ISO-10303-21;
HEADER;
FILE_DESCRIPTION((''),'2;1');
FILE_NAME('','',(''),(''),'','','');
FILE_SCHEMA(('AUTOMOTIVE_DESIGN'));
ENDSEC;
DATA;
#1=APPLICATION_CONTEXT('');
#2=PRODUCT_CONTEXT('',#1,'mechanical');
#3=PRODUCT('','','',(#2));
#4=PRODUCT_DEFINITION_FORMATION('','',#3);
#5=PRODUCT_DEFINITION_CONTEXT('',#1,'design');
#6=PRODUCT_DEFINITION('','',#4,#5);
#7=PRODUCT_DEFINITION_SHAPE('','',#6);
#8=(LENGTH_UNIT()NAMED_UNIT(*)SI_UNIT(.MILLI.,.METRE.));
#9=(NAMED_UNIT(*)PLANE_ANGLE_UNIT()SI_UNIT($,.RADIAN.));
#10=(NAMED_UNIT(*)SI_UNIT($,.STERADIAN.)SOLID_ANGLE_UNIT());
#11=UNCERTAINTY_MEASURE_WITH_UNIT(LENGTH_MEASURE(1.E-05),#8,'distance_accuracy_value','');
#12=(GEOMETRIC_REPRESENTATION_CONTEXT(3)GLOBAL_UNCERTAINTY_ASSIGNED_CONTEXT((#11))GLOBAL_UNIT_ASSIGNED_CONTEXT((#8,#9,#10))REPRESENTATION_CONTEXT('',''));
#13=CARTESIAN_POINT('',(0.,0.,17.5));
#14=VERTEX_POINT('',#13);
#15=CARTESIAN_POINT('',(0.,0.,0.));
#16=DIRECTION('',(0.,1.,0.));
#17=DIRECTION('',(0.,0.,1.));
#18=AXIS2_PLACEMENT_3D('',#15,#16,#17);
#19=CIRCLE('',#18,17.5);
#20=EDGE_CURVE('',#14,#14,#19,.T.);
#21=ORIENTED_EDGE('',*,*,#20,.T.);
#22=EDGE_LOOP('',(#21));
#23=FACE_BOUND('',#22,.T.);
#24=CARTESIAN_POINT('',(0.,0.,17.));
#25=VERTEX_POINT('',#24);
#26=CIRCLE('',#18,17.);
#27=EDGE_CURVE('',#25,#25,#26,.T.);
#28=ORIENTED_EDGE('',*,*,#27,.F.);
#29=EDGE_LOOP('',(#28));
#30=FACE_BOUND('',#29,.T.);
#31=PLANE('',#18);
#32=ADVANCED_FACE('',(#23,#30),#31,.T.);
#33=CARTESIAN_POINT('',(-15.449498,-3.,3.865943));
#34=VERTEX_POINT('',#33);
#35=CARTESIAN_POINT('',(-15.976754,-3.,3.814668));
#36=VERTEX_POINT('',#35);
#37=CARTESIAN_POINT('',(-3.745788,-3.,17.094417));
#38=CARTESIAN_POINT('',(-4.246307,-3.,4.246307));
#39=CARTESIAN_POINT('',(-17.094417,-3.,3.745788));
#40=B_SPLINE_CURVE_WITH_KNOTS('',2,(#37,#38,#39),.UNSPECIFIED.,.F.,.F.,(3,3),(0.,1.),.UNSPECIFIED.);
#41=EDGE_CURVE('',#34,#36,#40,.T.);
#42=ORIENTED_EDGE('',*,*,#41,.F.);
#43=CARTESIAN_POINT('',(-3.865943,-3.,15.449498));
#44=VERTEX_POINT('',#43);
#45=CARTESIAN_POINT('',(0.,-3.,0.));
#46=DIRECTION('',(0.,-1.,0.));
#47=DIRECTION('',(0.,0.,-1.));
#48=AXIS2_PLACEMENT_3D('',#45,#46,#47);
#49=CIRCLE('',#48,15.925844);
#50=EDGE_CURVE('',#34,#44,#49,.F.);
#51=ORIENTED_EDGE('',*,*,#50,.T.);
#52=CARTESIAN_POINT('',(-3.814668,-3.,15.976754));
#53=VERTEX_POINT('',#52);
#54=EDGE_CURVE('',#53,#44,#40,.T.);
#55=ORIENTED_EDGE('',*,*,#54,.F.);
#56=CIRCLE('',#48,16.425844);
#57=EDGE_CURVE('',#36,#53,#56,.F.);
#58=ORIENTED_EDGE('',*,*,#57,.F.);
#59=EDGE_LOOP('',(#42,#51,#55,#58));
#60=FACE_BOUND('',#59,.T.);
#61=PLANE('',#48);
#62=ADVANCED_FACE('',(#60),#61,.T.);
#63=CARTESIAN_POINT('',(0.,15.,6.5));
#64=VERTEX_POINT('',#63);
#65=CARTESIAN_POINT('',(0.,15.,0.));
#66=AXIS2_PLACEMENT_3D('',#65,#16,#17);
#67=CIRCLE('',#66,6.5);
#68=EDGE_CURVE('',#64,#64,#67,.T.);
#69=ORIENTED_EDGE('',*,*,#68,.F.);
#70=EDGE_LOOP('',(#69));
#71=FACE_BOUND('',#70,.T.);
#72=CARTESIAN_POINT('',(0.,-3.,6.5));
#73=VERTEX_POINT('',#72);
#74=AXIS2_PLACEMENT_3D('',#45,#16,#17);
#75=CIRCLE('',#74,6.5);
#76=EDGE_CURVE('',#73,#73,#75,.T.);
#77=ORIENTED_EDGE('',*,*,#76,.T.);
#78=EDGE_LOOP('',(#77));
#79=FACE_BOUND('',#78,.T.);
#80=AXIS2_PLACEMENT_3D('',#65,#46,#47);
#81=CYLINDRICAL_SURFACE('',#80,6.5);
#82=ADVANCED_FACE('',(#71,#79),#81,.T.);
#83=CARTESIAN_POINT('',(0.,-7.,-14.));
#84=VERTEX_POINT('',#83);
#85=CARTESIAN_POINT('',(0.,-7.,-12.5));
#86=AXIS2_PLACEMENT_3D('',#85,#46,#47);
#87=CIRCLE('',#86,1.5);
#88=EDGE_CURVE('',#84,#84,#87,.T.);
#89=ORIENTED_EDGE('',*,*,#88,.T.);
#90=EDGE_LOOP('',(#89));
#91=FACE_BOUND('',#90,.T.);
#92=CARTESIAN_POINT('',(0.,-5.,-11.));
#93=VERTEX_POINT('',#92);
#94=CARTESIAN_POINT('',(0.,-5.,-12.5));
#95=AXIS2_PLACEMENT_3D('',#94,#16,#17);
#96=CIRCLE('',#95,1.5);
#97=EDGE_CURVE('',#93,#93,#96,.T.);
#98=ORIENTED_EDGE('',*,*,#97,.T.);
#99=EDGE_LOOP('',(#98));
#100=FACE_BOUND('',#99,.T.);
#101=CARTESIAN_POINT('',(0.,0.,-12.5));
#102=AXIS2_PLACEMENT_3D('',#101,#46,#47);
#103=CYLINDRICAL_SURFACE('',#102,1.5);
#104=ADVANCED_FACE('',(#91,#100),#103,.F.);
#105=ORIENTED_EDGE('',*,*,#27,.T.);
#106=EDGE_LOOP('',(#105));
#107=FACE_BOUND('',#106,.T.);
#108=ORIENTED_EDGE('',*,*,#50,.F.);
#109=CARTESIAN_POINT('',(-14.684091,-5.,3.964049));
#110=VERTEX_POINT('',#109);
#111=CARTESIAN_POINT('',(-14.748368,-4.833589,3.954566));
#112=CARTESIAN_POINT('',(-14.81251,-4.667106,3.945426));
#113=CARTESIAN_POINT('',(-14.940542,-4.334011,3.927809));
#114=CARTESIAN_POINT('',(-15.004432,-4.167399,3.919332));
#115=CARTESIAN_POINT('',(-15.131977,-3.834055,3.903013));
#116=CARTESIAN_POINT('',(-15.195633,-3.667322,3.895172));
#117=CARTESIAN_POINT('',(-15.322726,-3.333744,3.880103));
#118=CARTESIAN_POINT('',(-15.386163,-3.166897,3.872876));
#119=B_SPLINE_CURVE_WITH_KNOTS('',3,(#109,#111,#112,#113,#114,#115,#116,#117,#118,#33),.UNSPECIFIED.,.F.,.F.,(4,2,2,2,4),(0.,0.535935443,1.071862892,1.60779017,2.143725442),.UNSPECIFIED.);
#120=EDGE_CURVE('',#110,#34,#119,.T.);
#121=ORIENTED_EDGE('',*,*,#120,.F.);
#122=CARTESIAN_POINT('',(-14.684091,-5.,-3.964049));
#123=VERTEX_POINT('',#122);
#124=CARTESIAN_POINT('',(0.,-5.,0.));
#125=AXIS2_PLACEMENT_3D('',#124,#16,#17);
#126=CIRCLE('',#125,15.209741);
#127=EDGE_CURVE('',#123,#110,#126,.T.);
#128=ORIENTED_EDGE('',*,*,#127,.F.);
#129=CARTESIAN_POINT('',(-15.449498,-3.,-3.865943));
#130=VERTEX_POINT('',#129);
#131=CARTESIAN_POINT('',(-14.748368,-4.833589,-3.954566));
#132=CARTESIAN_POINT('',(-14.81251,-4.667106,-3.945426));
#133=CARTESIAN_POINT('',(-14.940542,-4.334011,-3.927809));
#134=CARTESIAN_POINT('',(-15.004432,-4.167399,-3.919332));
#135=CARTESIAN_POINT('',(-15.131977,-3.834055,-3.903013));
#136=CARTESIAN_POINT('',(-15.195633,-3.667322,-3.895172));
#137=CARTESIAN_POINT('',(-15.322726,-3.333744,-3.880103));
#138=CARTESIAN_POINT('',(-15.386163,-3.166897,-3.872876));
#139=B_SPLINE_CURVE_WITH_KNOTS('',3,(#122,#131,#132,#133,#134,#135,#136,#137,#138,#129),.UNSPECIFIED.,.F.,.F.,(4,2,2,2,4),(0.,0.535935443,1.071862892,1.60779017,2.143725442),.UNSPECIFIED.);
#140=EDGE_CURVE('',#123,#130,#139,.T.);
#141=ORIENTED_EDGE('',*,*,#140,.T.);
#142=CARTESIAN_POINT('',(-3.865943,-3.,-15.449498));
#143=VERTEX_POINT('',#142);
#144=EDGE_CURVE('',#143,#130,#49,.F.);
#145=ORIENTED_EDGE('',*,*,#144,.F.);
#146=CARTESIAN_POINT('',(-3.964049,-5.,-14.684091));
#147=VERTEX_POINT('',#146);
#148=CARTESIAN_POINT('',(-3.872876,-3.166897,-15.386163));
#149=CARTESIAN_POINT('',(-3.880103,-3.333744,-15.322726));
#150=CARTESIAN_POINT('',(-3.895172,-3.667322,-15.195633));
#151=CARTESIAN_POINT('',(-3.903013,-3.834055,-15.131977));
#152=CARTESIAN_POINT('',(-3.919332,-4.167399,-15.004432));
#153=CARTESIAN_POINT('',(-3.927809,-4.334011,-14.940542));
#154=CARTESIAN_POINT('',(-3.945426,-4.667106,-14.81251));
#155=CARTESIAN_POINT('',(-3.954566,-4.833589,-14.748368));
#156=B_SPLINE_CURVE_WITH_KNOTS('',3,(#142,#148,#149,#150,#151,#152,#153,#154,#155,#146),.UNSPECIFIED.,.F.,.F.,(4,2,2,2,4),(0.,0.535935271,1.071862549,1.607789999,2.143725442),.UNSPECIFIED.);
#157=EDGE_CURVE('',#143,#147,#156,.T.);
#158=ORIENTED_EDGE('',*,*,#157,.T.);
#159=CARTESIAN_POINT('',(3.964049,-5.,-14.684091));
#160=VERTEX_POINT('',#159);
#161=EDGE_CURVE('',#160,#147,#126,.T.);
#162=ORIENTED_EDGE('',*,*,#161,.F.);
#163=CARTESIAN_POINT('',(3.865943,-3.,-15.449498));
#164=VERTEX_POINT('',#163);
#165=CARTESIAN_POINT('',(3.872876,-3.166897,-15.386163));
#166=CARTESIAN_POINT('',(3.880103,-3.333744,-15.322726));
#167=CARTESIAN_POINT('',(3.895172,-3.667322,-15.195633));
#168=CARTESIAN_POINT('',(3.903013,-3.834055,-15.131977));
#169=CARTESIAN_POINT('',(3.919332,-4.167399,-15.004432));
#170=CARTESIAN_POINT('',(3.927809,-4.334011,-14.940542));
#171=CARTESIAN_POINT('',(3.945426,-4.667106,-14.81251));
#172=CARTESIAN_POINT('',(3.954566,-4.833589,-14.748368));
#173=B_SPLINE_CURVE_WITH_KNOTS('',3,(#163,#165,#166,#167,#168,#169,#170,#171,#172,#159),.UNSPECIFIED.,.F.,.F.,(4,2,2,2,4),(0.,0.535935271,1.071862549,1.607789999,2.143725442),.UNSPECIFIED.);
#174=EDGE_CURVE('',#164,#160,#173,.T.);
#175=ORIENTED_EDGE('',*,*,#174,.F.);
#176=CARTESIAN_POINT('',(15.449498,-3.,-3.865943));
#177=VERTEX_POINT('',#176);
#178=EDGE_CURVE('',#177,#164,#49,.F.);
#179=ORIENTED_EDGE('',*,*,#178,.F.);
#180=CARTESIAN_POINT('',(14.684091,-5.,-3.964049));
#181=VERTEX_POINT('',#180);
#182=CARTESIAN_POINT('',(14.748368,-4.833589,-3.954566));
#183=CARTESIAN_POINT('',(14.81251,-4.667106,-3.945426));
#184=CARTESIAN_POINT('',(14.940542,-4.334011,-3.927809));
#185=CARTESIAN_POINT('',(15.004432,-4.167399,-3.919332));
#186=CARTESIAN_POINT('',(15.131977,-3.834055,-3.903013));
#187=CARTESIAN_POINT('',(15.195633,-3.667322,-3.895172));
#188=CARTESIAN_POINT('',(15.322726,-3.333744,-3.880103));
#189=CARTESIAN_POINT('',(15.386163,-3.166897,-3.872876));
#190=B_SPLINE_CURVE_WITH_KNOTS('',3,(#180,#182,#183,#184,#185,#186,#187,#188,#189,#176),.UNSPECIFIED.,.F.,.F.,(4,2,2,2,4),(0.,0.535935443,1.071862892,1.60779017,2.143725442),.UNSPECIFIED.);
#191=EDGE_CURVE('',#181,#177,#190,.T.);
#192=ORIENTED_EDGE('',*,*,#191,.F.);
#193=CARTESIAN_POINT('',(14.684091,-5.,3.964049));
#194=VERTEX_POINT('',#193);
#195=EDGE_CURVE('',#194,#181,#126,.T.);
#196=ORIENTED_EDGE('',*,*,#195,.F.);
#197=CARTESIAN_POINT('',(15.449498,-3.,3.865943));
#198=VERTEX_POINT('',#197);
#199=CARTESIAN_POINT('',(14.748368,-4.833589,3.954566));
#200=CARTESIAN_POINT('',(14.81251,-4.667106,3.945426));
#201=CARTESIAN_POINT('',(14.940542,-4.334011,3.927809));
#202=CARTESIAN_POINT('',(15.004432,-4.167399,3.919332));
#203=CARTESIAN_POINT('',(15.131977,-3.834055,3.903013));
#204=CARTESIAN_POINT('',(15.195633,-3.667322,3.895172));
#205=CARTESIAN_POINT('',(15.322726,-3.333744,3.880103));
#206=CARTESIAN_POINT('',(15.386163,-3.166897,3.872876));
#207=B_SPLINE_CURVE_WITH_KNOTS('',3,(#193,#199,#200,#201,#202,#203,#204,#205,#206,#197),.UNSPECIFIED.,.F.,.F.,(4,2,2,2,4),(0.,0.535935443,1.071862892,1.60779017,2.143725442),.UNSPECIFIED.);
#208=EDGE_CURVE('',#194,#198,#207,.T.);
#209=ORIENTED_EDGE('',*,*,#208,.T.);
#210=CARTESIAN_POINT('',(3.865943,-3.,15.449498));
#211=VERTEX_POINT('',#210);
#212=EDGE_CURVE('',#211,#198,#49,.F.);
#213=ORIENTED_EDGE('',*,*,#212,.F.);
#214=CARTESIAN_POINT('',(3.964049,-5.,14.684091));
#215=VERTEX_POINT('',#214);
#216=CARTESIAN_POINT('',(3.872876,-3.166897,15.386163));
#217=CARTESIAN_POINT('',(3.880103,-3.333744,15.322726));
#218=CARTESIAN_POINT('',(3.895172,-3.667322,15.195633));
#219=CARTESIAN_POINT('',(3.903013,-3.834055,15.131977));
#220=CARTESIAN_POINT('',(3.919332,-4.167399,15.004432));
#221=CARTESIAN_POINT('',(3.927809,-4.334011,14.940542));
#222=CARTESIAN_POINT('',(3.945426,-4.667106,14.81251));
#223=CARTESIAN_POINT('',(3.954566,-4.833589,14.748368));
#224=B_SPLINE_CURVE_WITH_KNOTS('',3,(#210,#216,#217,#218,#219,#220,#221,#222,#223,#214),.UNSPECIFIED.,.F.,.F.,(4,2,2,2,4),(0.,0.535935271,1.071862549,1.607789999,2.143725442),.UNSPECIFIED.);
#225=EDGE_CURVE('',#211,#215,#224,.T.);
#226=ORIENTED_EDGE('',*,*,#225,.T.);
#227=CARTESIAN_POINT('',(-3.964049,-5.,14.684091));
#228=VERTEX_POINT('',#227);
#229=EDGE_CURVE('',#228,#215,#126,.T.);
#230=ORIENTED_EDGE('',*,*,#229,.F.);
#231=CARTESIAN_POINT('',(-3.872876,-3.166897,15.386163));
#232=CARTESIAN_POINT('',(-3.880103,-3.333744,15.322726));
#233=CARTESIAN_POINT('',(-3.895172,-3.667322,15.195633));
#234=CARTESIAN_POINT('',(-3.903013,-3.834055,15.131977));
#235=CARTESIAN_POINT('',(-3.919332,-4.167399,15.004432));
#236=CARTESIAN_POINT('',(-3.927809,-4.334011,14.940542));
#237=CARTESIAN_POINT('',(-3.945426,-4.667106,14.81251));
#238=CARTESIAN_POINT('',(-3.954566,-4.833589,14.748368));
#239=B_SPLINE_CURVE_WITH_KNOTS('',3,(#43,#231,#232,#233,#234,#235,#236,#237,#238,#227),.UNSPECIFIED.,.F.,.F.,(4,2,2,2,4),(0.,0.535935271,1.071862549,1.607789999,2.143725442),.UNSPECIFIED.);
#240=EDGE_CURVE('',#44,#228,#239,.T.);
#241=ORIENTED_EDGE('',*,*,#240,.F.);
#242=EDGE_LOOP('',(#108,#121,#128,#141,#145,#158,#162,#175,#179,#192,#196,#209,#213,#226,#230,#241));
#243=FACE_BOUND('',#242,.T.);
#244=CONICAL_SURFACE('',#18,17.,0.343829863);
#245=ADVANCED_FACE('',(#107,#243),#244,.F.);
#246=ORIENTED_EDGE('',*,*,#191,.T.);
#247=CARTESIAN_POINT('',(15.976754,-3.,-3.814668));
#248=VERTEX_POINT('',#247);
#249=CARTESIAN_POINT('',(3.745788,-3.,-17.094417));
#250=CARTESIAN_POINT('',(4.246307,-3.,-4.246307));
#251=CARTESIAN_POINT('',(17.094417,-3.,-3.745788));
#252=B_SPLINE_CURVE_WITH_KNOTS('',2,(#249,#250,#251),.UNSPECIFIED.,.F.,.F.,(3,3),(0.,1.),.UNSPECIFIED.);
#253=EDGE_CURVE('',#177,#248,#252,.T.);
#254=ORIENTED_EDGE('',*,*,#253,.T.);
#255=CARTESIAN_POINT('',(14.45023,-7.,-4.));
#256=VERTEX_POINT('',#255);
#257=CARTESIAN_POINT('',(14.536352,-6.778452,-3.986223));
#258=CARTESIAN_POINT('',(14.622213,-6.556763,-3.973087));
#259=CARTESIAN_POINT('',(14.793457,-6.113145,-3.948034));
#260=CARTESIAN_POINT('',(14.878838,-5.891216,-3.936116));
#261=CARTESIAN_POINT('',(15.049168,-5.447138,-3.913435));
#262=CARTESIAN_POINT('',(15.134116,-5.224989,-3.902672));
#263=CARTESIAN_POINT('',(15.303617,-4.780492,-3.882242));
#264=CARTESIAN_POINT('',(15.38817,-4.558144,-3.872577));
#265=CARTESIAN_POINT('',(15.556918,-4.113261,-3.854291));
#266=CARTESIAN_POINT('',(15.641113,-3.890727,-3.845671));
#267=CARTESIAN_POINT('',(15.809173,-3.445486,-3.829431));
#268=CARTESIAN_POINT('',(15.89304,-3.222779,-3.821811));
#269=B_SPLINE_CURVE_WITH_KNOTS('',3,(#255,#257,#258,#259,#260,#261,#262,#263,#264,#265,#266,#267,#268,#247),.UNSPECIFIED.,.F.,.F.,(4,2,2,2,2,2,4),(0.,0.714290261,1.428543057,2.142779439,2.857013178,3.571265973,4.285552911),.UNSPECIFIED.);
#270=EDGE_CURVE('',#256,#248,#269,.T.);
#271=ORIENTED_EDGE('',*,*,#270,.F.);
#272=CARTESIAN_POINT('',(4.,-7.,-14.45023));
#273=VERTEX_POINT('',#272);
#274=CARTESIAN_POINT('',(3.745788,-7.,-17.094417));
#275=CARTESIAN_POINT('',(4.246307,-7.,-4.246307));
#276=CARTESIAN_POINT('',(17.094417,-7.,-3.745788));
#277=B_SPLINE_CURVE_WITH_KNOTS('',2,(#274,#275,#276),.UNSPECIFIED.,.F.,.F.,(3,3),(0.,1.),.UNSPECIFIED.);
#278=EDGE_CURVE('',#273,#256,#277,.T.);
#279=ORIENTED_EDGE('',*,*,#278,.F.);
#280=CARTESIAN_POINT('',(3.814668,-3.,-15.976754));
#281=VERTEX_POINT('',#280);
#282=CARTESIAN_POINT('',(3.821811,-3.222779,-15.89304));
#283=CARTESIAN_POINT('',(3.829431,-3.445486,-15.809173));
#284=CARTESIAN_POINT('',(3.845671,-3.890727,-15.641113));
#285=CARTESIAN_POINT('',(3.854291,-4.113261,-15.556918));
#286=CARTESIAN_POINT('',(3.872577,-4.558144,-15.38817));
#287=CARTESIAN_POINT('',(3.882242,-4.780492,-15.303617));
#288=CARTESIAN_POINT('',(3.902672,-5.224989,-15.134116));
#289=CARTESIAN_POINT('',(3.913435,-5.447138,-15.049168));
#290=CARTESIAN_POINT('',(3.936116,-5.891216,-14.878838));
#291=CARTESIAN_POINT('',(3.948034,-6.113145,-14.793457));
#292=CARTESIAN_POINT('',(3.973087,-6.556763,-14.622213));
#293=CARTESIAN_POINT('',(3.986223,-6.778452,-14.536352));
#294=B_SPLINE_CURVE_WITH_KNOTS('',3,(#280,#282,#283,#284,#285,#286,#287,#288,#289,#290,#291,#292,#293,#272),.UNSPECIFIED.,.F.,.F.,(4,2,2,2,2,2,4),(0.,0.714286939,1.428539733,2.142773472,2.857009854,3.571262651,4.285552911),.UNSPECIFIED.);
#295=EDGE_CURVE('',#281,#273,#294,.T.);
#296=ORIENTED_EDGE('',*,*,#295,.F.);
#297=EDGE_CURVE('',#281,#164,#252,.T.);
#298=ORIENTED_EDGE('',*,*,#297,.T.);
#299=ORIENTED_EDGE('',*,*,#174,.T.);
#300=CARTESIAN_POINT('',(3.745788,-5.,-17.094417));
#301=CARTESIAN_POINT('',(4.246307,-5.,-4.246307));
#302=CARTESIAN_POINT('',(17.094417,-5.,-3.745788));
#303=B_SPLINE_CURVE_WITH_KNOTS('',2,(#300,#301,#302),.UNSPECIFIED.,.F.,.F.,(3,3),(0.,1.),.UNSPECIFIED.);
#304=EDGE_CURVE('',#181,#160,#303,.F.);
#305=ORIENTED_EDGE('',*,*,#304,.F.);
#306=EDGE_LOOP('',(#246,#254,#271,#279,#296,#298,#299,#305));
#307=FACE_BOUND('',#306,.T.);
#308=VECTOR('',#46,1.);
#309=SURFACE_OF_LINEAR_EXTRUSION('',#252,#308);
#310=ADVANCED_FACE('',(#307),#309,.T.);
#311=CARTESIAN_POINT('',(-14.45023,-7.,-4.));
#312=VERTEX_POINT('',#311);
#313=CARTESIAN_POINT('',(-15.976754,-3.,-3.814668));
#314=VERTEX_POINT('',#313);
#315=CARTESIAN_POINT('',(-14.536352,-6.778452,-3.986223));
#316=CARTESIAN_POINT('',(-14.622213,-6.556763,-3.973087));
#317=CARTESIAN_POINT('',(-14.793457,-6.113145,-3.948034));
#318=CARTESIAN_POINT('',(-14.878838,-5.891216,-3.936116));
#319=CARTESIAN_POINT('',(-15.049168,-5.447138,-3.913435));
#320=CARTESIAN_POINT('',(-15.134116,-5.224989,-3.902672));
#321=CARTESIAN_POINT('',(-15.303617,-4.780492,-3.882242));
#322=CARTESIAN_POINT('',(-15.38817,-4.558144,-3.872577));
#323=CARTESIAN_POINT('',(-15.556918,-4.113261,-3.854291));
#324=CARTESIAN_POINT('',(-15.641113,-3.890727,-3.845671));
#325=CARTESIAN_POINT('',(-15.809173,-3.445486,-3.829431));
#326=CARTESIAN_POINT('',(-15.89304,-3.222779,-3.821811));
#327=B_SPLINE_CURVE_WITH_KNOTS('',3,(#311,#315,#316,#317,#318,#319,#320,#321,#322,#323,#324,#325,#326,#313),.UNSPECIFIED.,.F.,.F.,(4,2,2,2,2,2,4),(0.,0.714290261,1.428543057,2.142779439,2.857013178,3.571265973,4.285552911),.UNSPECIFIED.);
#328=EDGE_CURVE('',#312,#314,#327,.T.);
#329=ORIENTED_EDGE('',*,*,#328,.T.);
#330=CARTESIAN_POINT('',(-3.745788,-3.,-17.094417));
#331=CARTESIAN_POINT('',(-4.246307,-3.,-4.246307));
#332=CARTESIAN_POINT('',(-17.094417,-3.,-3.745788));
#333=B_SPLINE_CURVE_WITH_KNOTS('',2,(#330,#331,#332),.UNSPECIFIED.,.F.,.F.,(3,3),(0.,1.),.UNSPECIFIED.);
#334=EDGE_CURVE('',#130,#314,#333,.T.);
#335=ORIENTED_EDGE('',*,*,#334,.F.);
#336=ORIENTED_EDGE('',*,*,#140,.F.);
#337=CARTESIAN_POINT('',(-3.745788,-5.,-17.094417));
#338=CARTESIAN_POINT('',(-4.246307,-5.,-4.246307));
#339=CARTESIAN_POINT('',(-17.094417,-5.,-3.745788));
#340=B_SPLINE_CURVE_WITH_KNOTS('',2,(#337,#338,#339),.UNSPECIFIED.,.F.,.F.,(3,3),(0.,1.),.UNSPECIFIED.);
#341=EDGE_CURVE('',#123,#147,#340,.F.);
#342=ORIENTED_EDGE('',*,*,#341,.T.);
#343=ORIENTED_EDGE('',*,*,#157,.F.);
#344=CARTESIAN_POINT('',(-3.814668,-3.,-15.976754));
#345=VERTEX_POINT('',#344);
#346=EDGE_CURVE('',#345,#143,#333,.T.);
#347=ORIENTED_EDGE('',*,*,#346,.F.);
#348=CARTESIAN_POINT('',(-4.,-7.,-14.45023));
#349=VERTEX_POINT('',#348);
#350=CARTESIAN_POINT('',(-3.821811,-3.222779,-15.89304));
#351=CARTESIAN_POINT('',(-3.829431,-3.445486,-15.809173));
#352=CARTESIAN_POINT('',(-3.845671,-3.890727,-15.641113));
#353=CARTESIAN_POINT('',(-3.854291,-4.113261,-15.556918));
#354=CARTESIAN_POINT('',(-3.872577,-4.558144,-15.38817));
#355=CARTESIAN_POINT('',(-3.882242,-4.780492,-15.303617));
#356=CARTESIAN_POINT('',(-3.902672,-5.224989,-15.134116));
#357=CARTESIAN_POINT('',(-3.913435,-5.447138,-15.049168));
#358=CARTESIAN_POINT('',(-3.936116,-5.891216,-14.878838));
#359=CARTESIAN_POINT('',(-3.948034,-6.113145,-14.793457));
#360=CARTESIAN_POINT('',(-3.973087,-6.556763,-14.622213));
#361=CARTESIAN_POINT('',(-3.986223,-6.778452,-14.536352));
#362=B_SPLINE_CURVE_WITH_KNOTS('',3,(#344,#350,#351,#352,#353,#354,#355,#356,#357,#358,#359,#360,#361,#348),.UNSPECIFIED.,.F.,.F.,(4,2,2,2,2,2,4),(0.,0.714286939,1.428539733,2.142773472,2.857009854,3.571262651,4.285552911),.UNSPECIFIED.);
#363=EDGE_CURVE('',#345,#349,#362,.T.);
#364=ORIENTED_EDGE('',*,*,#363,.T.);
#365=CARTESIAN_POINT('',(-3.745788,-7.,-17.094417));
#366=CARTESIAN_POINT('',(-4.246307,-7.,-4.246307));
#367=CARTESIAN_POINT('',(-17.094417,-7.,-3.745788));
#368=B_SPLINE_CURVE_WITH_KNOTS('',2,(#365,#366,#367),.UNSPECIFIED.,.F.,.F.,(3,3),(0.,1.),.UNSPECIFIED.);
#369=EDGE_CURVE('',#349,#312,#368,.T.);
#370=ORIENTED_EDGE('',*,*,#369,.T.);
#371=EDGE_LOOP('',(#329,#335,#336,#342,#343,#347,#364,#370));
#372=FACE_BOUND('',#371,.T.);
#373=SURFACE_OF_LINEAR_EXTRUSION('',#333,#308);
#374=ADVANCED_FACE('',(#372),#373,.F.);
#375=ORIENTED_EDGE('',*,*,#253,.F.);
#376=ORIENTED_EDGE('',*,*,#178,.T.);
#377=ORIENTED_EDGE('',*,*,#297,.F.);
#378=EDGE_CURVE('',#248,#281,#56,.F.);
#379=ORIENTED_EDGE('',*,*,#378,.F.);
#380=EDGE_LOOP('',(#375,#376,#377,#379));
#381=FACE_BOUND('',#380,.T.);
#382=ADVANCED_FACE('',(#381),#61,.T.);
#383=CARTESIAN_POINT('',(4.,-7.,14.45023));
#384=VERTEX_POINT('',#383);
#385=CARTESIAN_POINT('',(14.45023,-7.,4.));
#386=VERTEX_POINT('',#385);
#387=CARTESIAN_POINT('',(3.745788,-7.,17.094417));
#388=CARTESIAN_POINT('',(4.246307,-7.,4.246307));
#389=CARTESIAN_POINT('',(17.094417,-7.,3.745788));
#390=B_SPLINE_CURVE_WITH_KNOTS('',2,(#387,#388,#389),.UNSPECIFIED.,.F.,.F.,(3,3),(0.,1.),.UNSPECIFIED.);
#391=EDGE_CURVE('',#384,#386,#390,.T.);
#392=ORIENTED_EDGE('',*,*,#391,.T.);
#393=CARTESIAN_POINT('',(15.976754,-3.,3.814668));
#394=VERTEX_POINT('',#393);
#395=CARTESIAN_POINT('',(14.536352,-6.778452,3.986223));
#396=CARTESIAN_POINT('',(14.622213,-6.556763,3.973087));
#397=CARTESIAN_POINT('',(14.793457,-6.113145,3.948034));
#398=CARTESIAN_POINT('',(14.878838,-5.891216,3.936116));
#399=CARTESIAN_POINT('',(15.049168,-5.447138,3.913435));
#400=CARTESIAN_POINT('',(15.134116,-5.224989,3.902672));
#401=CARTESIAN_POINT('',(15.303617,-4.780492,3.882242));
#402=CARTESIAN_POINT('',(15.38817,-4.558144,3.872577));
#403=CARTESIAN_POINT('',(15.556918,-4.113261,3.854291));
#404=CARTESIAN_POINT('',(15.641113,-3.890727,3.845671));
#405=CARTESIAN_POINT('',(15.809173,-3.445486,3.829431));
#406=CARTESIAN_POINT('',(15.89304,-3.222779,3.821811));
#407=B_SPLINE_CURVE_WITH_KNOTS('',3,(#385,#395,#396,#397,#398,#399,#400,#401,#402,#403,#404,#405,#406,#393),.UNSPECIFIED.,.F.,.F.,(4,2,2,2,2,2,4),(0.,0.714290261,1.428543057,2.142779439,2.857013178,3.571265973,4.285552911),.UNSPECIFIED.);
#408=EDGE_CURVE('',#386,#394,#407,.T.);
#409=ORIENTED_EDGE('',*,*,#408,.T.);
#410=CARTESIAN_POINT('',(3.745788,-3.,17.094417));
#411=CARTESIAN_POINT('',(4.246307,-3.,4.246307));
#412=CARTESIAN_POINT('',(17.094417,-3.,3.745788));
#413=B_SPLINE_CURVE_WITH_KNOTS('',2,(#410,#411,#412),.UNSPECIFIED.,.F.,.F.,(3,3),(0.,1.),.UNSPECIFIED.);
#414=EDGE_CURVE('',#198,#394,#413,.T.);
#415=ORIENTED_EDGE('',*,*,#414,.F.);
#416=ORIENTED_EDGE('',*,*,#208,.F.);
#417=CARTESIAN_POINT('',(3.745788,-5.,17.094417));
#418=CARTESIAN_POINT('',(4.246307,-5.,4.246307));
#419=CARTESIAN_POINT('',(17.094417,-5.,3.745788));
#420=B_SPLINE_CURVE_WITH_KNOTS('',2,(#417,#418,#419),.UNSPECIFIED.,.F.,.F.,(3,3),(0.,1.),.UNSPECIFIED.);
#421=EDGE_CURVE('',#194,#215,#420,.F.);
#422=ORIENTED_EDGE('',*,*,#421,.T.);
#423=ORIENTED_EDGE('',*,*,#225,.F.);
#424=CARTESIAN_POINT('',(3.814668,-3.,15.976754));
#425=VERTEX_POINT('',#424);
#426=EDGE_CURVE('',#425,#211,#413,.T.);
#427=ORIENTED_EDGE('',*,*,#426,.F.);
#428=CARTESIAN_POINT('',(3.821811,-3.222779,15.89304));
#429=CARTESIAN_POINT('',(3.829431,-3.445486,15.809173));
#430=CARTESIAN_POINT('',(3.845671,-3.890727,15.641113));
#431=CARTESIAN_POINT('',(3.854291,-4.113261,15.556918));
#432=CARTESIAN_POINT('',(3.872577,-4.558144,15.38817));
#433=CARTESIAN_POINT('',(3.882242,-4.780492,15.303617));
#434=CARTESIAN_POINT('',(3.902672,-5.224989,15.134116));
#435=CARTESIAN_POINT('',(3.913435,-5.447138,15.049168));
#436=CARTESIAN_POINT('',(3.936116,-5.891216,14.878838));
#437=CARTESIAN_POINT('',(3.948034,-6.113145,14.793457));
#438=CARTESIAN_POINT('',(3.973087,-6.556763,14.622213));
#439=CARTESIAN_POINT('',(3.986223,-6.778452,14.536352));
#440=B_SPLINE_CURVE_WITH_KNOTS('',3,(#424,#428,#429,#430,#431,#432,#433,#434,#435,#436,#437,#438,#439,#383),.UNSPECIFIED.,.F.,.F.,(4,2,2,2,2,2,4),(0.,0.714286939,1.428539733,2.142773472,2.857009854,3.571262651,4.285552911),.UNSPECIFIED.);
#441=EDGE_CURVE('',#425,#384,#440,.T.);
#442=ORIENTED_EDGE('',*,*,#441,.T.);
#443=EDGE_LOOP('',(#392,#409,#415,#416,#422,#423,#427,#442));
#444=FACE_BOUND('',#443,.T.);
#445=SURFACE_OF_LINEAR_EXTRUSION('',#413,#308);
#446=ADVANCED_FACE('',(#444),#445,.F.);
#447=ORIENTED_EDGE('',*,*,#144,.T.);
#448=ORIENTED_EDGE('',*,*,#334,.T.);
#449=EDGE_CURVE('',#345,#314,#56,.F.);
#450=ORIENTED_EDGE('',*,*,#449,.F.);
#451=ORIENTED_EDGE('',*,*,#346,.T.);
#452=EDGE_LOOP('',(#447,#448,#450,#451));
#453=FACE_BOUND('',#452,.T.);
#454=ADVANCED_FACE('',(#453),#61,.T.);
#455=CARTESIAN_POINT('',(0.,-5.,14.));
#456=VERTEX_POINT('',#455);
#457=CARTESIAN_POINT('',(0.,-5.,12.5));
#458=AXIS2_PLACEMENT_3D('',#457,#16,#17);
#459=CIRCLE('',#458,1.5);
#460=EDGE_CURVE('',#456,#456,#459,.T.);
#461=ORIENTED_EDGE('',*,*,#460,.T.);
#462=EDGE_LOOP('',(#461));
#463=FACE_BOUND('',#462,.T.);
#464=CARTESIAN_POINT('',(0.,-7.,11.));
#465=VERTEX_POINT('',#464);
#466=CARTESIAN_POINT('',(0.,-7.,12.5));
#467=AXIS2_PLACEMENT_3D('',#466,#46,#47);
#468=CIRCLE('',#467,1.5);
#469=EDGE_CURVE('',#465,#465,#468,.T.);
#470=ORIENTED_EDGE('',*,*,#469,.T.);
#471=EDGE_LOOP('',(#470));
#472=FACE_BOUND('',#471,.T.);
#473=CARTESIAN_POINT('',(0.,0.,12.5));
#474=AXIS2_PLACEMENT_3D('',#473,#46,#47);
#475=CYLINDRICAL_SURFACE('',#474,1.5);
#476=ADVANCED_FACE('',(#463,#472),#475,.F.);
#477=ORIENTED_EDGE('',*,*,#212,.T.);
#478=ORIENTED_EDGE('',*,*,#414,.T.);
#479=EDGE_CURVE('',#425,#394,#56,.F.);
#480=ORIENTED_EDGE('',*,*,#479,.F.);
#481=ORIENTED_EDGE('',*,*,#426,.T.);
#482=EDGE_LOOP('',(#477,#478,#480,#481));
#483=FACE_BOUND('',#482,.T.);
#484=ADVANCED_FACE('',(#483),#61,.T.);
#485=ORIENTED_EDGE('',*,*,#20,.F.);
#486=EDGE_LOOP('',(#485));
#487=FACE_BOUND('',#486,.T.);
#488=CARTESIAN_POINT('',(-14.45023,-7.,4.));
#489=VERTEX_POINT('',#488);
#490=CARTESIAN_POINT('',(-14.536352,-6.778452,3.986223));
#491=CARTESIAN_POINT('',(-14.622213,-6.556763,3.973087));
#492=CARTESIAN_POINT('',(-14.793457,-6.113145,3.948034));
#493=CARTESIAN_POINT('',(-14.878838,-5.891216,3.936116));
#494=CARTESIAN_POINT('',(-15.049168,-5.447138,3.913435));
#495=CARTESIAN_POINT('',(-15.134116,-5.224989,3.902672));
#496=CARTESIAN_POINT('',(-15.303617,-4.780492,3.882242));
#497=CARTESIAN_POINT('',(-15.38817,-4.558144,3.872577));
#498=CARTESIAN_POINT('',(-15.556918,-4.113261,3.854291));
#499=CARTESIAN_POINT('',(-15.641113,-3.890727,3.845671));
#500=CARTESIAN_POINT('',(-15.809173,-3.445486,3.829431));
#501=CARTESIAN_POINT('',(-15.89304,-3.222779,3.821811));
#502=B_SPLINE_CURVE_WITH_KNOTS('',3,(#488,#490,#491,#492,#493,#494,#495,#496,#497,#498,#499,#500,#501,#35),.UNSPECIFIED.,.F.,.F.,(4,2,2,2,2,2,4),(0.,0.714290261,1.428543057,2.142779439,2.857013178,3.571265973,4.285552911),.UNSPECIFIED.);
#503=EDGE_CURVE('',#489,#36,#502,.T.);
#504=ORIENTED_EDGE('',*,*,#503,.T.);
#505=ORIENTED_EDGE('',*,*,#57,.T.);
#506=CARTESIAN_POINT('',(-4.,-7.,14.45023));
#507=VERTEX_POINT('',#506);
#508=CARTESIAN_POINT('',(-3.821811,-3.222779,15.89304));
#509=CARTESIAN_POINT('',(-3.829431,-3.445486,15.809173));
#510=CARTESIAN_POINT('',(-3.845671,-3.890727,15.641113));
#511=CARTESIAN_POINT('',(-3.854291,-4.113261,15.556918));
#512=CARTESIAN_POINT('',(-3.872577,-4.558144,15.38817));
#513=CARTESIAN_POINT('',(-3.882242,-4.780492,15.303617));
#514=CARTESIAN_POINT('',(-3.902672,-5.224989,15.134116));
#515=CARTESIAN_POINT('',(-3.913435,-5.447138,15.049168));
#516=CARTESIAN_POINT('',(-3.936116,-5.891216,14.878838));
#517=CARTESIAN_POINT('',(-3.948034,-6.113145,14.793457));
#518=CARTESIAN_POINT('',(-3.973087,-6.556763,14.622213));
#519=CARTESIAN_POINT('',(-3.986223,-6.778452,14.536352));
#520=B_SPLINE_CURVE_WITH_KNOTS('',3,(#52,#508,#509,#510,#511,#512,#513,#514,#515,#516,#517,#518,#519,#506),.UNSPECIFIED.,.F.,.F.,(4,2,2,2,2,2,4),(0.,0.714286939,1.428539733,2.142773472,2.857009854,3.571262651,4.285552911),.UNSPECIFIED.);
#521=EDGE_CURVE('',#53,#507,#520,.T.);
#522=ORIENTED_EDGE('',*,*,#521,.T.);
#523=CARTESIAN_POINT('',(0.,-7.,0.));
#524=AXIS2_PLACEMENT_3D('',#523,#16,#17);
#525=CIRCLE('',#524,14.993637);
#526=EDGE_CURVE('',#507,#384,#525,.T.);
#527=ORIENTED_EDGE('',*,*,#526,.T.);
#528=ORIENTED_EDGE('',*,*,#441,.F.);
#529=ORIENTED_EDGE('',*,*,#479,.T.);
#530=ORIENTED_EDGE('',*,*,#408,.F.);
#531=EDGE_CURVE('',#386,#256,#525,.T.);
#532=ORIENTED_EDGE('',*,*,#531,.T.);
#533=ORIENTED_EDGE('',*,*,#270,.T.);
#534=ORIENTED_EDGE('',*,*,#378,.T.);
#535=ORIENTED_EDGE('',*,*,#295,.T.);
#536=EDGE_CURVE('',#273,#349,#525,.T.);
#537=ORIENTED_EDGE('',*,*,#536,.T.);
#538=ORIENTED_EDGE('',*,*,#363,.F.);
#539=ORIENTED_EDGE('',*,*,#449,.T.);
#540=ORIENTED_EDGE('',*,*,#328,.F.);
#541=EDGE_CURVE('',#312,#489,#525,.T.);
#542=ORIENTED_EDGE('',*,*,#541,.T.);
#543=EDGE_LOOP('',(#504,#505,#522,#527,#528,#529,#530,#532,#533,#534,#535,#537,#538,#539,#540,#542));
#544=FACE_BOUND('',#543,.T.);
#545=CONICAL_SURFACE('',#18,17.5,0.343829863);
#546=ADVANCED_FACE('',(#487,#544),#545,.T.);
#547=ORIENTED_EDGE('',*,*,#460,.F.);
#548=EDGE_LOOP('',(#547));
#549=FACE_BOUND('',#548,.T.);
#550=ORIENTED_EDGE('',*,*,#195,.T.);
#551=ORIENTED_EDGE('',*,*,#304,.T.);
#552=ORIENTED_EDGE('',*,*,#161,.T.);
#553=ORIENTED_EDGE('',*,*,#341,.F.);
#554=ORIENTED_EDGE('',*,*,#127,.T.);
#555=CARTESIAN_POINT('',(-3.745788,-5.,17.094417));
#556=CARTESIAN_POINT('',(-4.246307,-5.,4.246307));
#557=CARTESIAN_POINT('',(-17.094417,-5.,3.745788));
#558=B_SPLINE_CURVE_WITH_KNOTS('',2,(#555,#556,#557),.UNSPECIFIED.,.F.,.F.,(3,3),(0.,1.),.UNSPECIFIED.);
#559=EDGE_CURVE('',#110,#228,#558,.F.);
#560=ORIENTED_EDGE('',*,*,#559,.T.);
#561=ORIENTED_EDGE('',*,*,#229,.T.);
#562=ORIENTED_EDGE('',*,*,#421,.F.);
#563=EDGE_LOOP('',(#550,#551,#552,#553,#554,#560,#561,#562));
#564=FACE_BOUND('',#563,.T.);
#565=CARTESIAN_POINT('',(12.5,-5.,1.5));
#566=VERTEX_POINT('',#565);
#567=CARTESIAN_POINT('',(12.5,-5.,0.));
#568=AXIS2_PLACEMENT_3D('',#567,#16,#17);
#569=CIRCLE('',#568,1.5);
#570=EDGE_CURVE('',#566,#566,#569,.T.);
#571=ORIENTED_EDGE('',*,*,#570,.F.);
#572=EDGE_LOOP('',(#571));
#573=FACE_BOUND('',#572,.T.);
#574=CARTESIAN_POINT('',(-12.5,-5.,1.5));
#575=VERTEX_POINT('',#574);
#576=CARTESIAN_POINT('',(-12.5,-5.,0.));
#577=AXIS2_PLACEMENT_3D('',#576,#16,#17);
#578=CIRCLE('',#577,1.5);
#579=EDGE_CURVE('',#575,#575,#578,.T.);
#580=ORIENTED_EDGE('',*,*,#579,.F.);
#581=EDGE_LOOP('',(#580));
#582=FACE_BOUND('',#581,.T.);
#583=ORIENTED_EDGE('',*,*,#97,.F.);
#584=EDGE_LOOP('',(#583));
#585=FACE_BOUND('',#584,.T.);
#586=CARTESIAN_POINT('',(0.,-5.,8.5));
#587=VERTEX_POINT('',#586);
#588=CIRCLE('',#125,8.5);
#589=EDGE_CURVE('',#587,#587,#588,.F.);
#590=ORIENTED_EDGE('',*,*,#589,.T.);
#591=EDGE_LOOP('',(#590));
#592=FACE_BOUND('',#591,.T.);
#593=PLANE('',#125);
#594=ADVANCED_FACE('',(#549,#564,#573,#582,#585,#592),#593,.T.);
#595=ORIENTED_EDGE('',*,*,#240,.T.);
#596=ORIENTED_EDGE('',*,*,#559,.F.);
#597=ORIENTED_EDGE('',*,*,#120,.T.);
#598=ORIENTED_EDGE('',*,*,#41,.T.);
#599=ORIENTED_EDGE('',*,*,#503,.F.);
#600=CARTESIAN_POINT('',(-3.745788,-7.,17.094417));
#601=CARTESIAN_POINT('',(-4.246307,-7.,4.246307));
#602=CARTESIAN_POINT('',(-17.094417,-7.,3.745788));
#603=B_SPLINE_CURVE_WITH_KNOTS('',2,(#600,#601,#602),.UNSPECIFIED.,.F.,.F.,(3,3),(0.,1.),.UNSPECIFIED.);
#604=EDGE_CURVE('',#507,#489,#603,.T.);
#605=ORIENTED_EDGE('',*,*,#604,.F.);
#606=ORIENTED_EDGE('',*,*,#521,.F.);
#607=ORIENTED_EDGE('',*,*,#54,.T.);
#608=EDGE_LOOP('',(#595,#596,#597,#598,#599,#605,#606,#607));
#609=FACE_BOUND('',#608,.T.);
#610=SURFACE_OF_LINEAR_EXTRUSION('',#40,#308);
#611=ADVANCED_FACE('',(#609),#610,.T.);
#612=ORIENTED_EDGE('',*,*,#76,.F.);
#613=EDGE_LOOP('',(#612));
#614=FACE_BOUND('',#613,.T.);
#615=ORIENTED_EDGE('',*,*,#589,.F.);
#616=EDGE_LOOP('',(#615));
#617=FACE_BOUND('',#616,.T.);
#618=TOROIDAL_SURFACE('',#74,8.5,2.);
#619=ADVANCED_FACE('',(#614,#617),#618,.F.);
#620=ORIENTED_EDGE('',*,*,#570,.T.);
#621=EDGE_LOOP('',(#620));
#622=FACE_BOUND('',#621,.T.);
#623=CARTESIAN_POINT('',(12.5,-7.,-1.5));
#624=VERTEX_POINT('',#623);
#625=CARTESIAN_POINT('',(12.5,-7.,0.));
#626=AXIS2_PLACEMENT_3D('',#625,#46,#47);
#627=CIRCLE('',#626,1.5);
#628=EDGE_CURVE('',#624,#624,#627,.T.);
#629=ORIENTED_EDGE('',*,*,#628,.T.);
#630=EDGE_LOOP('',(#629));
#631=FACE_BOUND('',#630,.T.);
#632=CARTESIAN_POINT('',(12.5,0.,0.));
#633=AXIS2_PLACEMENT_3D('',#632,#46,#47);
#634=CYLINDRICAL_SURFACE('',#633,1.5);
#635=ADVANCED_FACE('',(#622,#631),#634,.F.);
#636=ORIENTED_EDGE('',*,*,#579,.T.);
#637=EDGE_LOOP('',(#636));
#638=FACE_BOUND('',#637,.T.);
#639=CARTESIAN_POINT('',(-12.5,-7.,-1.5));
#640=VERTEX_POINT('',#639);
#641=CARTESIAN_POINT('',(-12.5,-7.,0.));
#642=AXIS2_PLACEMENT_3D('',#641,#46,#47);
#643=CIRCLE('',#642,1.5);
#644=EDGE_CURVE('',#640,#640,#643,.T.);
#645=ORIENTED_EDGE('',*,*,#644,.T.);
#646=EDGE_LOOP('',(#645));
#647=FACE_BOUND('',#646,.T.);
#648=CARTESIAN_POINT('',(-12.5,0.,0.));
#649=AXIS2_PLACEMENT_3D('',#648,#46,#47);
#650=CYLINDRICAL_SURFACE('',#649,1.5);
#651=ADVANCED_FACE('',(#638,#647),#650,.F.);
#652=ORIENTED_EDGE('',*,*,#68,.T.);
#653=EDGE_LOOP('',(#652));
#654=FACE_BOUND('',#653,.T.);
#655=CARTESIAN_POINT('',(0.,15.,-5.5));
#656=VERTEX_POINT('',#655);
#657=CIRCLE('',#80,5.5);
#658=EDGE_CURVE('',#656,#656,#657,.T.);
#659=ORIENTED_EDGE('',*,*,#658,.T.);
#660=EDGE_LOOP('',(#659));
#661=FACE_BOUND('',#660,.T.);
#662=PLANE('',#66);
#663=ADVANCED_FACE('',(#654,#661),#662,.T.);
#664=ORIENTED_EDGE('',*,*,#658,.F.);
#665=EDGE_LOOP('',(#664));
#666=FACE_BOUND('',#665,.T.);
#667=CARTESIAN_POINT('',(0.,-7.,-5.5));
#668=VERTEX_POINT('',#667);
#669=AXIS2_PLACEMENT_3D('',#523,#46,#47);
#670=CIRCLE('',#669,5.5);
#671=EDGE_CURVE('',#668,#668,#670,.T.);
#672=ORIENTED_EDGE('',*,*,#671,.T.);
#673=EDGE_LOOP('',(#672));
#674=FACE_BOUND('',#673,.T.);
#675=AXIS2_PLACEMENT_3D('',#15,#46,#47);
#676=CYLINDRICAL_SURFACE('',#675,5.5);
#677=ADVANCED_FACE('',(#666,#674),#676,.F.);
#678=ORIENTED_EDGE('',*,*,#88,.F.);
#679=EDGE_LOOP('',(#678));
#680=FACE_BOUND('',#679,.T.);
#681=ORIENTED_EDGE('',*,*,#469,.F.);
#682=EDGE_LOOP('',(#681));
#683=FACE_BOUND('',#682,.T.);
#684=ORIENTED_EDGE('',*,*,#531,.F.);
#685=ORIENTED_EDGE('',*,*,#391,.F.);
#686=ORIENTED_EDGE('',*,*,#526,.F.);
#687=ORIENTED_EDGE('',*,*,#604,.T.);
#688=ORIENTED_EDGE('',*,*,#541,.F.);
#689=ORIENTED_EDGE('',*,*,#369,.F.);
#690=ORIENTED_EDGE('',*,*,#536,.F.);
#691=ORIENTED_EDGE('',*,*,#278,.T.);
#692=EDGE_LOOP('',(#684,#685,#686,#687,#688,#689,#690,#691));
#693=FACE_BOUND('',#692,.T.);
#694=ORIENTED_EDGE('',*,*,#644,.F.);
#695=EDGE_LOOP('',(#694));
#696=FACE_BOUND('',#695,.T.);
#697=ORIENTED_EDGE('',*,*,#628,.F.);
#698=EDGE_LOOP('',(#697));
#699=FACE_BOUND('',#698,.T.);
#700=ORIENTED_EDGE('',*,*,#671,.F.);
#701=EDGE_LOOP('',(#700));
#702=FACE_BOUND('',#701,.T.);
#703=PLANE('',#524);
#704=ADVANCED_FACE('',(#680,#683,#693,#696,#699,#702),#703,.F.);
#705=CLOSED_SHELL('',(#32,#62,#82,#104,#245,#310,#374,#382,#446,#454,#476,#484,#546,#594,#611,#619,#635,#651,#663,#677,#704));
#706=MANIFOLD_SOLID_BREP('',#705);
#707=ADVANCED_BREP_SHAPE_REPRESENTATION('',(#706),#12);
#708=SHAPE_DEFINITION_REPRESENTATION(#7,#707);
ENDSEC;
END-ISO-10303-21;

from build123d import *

# Parameters (mm, degrees)
SKETCH1_R           = 17.5
BOSS_EXTRUDE1_DEPTH = 7
BOSS_EXTRUDE1_DRAFT = -19.7
SKETCH5_R           = 17
CUT_EXTRUDE1_DEPTH  = 5
CUT_EXTRUDE1_DRAFT  = -19.7
CUT_EXTRUDE2_DEPTH  = 4
SKETCH7_R           = 5.5
CUT_EXTRUDE3_DEPTH  = 26.719642463
SKETCH8_R           = 1.5
CUT_EXTRUDE4_DEPTH  = 26.719642463
SKETCH9_R           = 6.5
BOSS_EXTRUDE2_DEPTH = 20
FILLET1_R           = 2
SKETCH10_R          = 5.5
CUT_EXTRUDE5_DEPTH  = 32.819805263


with BuildPart() as part:
    # Sketch1 → Boss-Extrude1 (with draft: the straight prism first)
    with BuildSketch(Plane(origin=(0, 0, 0), x_dir=(1, 0, 0), z_dir=(0, 1, 0))):
        Circle(SKETCH1_R)
    extrude(amount=-BOSS_EXTRUDE1_DEPTH)
    # Boss-Extrude1: the draft: its side faces are tilted about the plane it starts from
    boss_extrude1_sides = [part.faces().sort_by_distance(p)[0] for p in [
        (-17.5, -3.5, 0),
    ]]
    draft(boss_extrude1_sides, Plane(origin=(0, 0, 0), x_dir=(1, 0, 0), z_dir=(0, 1, 0)), BOSS_EXTRUDE1_DRAFT)


with BuildPart() as cut_extrude1_tool:
    # Sketch5 → Cut-Extrude1 (with draft: the straight prism first)
    with BuildSketch(Plane(origin=(0, 0, 0), x_dir=(1, 0, 0), z_dir=(0, 1, 0))):
        Circle(SKETCH5_R)
    extrude(amount=-CUT_EXTRUDE1_DEPTH)
    # Cut-Extrude1: the draft: its side faces are tilted about the plane it starts from
    cut_extrude1_sides = [cut_extrude1_tool.faces().sort_by_distance(p)[0] for p in [
        (-17, -2.5, 0),
    ]]
    draft(cut_extrude1_sides, Plane(origin=(0, 0, 0), x_dir=(1, 0, 0), z_dir=(0, 1, 0)), CUT_EXTRUDE1_DRAFT)


with BuildPart() as part_1:
    add(part.part)

    # Cut-Extrude1: cut by cut_extrude1_tool
    add(cut_extrude1_tool.part, mode=Mode.SUBTRACT)

    # Sketch6 → Cut-Extrude2 (cut)
    with BuildSketch(Plane.XZ.offset(7)):
        with BuildLine():
            add(Edge.make_bspline(
                [(-3.745787555, 17.094416503), (-3.800126667, 15.699556272), (-4, 14.450230262)],
                knots=[0, 0, 0, 0.108565408, 0.108565408, 0.108565408], degree=2))
            ThreePointArc((-3.745787555, 17.094416503), (-12.374368671, 12.374368671), (-17.094416503, 3.745787555))
            add(Edge.make_bspline(
                [(-14.450230262, 4), (-15.699556272, 3.800126667), (-17.094416503, 3.745787555)],
                knots=[0.891434592, 0.891434592, 0.891434592, 1, 1, 1], degree=2))
            ThreePointArc((-14.450230262, 4), (-10.602102495, 10.602102495), (-4, 14.450230262))
        make_face()
        with BuildLine():
            add(Edge.make_bspline(
                [(-4, 14.450230262), (-5.441294026, 5.441294026), (-14.450230262, 4)],
                knots=[0.108565408, 0.108565408, 0.108565408, 0.891434592, 0.891434592, 0.891434592], degree=2))
            ThreePointArc((-4, 14.450230262), (-10.602102495, 10.602102495), (-14.450230262, 4))
        make_face()
        with BuildLine():
            ThreePointArc((-17.094416503, -3.745787555), (-12.374368671, -12.374368671), (-3.745787555, -17.094416503))
            add(Edge.make_bspline(
                [(-3.745787555, -17.094416503), (-3.800126667, -15.699556272), (-4, -14.450230262)],
                knots=[0, 0, 0, 0.108565408, 0.108565408, 0.108565408], degree=2))
            ThreePointArc((-4, -14.450230262), (-10.602102495, -10.602102495), (-14.450230262, -4))
            add(Edge.make_bspline(
                [(-14.450230262, -4), (-15.699556272, -3.800126667), (-17.094416503, -3.745787555)],
                knots=[0.891434592, 0.891434592, 0.891434592, 1, 1, 1], degree=2))
        make_face()
        with BuildLine():
            ThreePointArc((-14.450230262, -4), (-10.602102495, -10.602102495), (-4, -14.450230262))
            add(Edge.make_bspline(
                [(-4, -14.450230262), (-5.441294026, -5.441294026), (-14.450230262, -4)],
                knots=[0.108565408, 0.108565408, 0.108565408, 0.891434592, 0.891434592, 0.891434592], degree=2))
        make_face()
        with BuildLine():
            ThreePointArc((4, -14.450230262), (10.602102495, -10.602102495), (14.450230262, -4))
            add(Edge.make_bspline(
                [(4, -14.450230262), (5.441294026, -5.441294026), (14.450230262, -4)],
                knots=[0.108565408, 0.108565408, 0.108565408, 0.891434592, 0.891434592, 0.891434592], degree=2))
        make_face()
        with BuildLine():
            ThreePointArc((3.745787555, -17.094416503), (12.374368671, -12.374368671), (17.094416503, -3.745787555))
            add(Edge.make_bspline(
                [(14.450230262, -4), (15.699556272, -3.800126667), (17.094416503, -3.745787555)],
                knots=[0.891434592, 0.891434592, 0.891434592, 1, 1, 1], degree=2))
            ThreePointArc((14.450230262, -4), (10.602102495, -10.602102495), (4, -14.450230262))
            add(Edge.make_bspline(
                [(3.745787555, -17.094416503), (3.800126667, -15.699556272), (4, -14.450230262)],
                knots=[0, 0, 0, 0.108565408, 0.108565408, 0.108565408], degree=2))
        make_face()
        with BuildLine():
            add(Edge.make_bspline(
                [(4, 14.450230262), (5.441294026, 5.441294026), (14.450230262, 4)],
                knots=[0.108565408, 0.108565408, 0.108565408, 0.891434592, 0.891434592, 0.891434592], degree=2))
            ThreePointArc((14.450230262, 4), (10.602102495, 10.602102495), (4, 14.450230262))
        make_face()
        with BuildLine():
            add(Edge.make_bspline(
                [(14.450230262, 4), (15.699556272, 3.800126667), (17.094416503, 3.745787555)],
                knots=[0.891434592, 0.891434592, 0.891434592, 1, 1, 1], degree=2))
            ThreePointArc((17.094416503, 3.745787555), (12.374368671, 12.374368671), (3.745787555, 17.094416503))
            add(Edge.make_bspline(
                [(3.745787555, 17.094416503), (3.800126667, 15.699556272), (4, 14.450230262)],
                knots=[0, 0, 0, 0.108565408, 0.108565408, 0.108565408], degree=2))
            ThreePointArc((4, 14.450230262), (10.602102495, 10.602102495), (14.450230262, 4))
        make_face()
    extrude(amount=-CUT_EXTRUDE2_DEPTH, mode=Mode.SUBTRACT)

    # Sketch7 → Cut-Extrude3 (cut, through all)
    with BuildSketch(Plane.XZ.offset(7)):
        with Locations(Location((0, 0, 0), (0, 0, 270))):
            Circle(SKETCH7_R)
    extrude(amount=-CUT_EXTRUDE3_DEPTH, mode=Mode.SUBTRACT)

    # Sketch8 → Cut-Extrude4 (cut, through all)
    with BuildSketch(Plane.XZ.offset(7)):
        with Locations(Location((-12.5, 0, 0), (0, 0, 270))):
            Circle(SKETCH8_R)
        with Locations(Location((0, 12.5, 0), (0, 0, 270))):
            Circle(SKETCH8_R)
        with Locations(Location((12.5, 0, 0), (0, 0, 270))):
            Circle(SKETCH8_R)
        with Locations(Location((0, -12.5, 0), (0, 0, 270))):
            Circle(SKETCH8_R)
    extrude(amount=-CUT_EXTRUDE4_DEPTH, mode=Mode.SUBTRACT)

    # Sketch9 → Boss-Extrude2 (add)
    with BuildSketch(Plane(origin=(0, -5, 0), x_dir=(1, 0, 0), z_dir=(0, 1, 0))):
        with Locations(Location((0, 0, 0), (0, 0, 270))):
            Circle(SKETCH9_R)
    extrude(amount=BOSS_EXTRUDE2_DEPTH)

    # Fillet1
    fillet1_edges = [part_1.edges().sort_by_distance(p)[0] for p in [
        (0, -5, -6.5),
    ]]
    fillet(fillet1_edges, radius=FILLET1_R)

    # Sketch10 → Cut-Extrude5 (cut, through all)
    with BuildSketch(Plane.XZ.offset(5)):
        with Locations(Location((0, 0, 0), (0, 0, 270))):
            Circle(SKETCH10_R)
    extrude(amount=-CUT_EXTRUDE5_DEPTH, mode=Mode.SUBTRACT)


solid = part_1.part
